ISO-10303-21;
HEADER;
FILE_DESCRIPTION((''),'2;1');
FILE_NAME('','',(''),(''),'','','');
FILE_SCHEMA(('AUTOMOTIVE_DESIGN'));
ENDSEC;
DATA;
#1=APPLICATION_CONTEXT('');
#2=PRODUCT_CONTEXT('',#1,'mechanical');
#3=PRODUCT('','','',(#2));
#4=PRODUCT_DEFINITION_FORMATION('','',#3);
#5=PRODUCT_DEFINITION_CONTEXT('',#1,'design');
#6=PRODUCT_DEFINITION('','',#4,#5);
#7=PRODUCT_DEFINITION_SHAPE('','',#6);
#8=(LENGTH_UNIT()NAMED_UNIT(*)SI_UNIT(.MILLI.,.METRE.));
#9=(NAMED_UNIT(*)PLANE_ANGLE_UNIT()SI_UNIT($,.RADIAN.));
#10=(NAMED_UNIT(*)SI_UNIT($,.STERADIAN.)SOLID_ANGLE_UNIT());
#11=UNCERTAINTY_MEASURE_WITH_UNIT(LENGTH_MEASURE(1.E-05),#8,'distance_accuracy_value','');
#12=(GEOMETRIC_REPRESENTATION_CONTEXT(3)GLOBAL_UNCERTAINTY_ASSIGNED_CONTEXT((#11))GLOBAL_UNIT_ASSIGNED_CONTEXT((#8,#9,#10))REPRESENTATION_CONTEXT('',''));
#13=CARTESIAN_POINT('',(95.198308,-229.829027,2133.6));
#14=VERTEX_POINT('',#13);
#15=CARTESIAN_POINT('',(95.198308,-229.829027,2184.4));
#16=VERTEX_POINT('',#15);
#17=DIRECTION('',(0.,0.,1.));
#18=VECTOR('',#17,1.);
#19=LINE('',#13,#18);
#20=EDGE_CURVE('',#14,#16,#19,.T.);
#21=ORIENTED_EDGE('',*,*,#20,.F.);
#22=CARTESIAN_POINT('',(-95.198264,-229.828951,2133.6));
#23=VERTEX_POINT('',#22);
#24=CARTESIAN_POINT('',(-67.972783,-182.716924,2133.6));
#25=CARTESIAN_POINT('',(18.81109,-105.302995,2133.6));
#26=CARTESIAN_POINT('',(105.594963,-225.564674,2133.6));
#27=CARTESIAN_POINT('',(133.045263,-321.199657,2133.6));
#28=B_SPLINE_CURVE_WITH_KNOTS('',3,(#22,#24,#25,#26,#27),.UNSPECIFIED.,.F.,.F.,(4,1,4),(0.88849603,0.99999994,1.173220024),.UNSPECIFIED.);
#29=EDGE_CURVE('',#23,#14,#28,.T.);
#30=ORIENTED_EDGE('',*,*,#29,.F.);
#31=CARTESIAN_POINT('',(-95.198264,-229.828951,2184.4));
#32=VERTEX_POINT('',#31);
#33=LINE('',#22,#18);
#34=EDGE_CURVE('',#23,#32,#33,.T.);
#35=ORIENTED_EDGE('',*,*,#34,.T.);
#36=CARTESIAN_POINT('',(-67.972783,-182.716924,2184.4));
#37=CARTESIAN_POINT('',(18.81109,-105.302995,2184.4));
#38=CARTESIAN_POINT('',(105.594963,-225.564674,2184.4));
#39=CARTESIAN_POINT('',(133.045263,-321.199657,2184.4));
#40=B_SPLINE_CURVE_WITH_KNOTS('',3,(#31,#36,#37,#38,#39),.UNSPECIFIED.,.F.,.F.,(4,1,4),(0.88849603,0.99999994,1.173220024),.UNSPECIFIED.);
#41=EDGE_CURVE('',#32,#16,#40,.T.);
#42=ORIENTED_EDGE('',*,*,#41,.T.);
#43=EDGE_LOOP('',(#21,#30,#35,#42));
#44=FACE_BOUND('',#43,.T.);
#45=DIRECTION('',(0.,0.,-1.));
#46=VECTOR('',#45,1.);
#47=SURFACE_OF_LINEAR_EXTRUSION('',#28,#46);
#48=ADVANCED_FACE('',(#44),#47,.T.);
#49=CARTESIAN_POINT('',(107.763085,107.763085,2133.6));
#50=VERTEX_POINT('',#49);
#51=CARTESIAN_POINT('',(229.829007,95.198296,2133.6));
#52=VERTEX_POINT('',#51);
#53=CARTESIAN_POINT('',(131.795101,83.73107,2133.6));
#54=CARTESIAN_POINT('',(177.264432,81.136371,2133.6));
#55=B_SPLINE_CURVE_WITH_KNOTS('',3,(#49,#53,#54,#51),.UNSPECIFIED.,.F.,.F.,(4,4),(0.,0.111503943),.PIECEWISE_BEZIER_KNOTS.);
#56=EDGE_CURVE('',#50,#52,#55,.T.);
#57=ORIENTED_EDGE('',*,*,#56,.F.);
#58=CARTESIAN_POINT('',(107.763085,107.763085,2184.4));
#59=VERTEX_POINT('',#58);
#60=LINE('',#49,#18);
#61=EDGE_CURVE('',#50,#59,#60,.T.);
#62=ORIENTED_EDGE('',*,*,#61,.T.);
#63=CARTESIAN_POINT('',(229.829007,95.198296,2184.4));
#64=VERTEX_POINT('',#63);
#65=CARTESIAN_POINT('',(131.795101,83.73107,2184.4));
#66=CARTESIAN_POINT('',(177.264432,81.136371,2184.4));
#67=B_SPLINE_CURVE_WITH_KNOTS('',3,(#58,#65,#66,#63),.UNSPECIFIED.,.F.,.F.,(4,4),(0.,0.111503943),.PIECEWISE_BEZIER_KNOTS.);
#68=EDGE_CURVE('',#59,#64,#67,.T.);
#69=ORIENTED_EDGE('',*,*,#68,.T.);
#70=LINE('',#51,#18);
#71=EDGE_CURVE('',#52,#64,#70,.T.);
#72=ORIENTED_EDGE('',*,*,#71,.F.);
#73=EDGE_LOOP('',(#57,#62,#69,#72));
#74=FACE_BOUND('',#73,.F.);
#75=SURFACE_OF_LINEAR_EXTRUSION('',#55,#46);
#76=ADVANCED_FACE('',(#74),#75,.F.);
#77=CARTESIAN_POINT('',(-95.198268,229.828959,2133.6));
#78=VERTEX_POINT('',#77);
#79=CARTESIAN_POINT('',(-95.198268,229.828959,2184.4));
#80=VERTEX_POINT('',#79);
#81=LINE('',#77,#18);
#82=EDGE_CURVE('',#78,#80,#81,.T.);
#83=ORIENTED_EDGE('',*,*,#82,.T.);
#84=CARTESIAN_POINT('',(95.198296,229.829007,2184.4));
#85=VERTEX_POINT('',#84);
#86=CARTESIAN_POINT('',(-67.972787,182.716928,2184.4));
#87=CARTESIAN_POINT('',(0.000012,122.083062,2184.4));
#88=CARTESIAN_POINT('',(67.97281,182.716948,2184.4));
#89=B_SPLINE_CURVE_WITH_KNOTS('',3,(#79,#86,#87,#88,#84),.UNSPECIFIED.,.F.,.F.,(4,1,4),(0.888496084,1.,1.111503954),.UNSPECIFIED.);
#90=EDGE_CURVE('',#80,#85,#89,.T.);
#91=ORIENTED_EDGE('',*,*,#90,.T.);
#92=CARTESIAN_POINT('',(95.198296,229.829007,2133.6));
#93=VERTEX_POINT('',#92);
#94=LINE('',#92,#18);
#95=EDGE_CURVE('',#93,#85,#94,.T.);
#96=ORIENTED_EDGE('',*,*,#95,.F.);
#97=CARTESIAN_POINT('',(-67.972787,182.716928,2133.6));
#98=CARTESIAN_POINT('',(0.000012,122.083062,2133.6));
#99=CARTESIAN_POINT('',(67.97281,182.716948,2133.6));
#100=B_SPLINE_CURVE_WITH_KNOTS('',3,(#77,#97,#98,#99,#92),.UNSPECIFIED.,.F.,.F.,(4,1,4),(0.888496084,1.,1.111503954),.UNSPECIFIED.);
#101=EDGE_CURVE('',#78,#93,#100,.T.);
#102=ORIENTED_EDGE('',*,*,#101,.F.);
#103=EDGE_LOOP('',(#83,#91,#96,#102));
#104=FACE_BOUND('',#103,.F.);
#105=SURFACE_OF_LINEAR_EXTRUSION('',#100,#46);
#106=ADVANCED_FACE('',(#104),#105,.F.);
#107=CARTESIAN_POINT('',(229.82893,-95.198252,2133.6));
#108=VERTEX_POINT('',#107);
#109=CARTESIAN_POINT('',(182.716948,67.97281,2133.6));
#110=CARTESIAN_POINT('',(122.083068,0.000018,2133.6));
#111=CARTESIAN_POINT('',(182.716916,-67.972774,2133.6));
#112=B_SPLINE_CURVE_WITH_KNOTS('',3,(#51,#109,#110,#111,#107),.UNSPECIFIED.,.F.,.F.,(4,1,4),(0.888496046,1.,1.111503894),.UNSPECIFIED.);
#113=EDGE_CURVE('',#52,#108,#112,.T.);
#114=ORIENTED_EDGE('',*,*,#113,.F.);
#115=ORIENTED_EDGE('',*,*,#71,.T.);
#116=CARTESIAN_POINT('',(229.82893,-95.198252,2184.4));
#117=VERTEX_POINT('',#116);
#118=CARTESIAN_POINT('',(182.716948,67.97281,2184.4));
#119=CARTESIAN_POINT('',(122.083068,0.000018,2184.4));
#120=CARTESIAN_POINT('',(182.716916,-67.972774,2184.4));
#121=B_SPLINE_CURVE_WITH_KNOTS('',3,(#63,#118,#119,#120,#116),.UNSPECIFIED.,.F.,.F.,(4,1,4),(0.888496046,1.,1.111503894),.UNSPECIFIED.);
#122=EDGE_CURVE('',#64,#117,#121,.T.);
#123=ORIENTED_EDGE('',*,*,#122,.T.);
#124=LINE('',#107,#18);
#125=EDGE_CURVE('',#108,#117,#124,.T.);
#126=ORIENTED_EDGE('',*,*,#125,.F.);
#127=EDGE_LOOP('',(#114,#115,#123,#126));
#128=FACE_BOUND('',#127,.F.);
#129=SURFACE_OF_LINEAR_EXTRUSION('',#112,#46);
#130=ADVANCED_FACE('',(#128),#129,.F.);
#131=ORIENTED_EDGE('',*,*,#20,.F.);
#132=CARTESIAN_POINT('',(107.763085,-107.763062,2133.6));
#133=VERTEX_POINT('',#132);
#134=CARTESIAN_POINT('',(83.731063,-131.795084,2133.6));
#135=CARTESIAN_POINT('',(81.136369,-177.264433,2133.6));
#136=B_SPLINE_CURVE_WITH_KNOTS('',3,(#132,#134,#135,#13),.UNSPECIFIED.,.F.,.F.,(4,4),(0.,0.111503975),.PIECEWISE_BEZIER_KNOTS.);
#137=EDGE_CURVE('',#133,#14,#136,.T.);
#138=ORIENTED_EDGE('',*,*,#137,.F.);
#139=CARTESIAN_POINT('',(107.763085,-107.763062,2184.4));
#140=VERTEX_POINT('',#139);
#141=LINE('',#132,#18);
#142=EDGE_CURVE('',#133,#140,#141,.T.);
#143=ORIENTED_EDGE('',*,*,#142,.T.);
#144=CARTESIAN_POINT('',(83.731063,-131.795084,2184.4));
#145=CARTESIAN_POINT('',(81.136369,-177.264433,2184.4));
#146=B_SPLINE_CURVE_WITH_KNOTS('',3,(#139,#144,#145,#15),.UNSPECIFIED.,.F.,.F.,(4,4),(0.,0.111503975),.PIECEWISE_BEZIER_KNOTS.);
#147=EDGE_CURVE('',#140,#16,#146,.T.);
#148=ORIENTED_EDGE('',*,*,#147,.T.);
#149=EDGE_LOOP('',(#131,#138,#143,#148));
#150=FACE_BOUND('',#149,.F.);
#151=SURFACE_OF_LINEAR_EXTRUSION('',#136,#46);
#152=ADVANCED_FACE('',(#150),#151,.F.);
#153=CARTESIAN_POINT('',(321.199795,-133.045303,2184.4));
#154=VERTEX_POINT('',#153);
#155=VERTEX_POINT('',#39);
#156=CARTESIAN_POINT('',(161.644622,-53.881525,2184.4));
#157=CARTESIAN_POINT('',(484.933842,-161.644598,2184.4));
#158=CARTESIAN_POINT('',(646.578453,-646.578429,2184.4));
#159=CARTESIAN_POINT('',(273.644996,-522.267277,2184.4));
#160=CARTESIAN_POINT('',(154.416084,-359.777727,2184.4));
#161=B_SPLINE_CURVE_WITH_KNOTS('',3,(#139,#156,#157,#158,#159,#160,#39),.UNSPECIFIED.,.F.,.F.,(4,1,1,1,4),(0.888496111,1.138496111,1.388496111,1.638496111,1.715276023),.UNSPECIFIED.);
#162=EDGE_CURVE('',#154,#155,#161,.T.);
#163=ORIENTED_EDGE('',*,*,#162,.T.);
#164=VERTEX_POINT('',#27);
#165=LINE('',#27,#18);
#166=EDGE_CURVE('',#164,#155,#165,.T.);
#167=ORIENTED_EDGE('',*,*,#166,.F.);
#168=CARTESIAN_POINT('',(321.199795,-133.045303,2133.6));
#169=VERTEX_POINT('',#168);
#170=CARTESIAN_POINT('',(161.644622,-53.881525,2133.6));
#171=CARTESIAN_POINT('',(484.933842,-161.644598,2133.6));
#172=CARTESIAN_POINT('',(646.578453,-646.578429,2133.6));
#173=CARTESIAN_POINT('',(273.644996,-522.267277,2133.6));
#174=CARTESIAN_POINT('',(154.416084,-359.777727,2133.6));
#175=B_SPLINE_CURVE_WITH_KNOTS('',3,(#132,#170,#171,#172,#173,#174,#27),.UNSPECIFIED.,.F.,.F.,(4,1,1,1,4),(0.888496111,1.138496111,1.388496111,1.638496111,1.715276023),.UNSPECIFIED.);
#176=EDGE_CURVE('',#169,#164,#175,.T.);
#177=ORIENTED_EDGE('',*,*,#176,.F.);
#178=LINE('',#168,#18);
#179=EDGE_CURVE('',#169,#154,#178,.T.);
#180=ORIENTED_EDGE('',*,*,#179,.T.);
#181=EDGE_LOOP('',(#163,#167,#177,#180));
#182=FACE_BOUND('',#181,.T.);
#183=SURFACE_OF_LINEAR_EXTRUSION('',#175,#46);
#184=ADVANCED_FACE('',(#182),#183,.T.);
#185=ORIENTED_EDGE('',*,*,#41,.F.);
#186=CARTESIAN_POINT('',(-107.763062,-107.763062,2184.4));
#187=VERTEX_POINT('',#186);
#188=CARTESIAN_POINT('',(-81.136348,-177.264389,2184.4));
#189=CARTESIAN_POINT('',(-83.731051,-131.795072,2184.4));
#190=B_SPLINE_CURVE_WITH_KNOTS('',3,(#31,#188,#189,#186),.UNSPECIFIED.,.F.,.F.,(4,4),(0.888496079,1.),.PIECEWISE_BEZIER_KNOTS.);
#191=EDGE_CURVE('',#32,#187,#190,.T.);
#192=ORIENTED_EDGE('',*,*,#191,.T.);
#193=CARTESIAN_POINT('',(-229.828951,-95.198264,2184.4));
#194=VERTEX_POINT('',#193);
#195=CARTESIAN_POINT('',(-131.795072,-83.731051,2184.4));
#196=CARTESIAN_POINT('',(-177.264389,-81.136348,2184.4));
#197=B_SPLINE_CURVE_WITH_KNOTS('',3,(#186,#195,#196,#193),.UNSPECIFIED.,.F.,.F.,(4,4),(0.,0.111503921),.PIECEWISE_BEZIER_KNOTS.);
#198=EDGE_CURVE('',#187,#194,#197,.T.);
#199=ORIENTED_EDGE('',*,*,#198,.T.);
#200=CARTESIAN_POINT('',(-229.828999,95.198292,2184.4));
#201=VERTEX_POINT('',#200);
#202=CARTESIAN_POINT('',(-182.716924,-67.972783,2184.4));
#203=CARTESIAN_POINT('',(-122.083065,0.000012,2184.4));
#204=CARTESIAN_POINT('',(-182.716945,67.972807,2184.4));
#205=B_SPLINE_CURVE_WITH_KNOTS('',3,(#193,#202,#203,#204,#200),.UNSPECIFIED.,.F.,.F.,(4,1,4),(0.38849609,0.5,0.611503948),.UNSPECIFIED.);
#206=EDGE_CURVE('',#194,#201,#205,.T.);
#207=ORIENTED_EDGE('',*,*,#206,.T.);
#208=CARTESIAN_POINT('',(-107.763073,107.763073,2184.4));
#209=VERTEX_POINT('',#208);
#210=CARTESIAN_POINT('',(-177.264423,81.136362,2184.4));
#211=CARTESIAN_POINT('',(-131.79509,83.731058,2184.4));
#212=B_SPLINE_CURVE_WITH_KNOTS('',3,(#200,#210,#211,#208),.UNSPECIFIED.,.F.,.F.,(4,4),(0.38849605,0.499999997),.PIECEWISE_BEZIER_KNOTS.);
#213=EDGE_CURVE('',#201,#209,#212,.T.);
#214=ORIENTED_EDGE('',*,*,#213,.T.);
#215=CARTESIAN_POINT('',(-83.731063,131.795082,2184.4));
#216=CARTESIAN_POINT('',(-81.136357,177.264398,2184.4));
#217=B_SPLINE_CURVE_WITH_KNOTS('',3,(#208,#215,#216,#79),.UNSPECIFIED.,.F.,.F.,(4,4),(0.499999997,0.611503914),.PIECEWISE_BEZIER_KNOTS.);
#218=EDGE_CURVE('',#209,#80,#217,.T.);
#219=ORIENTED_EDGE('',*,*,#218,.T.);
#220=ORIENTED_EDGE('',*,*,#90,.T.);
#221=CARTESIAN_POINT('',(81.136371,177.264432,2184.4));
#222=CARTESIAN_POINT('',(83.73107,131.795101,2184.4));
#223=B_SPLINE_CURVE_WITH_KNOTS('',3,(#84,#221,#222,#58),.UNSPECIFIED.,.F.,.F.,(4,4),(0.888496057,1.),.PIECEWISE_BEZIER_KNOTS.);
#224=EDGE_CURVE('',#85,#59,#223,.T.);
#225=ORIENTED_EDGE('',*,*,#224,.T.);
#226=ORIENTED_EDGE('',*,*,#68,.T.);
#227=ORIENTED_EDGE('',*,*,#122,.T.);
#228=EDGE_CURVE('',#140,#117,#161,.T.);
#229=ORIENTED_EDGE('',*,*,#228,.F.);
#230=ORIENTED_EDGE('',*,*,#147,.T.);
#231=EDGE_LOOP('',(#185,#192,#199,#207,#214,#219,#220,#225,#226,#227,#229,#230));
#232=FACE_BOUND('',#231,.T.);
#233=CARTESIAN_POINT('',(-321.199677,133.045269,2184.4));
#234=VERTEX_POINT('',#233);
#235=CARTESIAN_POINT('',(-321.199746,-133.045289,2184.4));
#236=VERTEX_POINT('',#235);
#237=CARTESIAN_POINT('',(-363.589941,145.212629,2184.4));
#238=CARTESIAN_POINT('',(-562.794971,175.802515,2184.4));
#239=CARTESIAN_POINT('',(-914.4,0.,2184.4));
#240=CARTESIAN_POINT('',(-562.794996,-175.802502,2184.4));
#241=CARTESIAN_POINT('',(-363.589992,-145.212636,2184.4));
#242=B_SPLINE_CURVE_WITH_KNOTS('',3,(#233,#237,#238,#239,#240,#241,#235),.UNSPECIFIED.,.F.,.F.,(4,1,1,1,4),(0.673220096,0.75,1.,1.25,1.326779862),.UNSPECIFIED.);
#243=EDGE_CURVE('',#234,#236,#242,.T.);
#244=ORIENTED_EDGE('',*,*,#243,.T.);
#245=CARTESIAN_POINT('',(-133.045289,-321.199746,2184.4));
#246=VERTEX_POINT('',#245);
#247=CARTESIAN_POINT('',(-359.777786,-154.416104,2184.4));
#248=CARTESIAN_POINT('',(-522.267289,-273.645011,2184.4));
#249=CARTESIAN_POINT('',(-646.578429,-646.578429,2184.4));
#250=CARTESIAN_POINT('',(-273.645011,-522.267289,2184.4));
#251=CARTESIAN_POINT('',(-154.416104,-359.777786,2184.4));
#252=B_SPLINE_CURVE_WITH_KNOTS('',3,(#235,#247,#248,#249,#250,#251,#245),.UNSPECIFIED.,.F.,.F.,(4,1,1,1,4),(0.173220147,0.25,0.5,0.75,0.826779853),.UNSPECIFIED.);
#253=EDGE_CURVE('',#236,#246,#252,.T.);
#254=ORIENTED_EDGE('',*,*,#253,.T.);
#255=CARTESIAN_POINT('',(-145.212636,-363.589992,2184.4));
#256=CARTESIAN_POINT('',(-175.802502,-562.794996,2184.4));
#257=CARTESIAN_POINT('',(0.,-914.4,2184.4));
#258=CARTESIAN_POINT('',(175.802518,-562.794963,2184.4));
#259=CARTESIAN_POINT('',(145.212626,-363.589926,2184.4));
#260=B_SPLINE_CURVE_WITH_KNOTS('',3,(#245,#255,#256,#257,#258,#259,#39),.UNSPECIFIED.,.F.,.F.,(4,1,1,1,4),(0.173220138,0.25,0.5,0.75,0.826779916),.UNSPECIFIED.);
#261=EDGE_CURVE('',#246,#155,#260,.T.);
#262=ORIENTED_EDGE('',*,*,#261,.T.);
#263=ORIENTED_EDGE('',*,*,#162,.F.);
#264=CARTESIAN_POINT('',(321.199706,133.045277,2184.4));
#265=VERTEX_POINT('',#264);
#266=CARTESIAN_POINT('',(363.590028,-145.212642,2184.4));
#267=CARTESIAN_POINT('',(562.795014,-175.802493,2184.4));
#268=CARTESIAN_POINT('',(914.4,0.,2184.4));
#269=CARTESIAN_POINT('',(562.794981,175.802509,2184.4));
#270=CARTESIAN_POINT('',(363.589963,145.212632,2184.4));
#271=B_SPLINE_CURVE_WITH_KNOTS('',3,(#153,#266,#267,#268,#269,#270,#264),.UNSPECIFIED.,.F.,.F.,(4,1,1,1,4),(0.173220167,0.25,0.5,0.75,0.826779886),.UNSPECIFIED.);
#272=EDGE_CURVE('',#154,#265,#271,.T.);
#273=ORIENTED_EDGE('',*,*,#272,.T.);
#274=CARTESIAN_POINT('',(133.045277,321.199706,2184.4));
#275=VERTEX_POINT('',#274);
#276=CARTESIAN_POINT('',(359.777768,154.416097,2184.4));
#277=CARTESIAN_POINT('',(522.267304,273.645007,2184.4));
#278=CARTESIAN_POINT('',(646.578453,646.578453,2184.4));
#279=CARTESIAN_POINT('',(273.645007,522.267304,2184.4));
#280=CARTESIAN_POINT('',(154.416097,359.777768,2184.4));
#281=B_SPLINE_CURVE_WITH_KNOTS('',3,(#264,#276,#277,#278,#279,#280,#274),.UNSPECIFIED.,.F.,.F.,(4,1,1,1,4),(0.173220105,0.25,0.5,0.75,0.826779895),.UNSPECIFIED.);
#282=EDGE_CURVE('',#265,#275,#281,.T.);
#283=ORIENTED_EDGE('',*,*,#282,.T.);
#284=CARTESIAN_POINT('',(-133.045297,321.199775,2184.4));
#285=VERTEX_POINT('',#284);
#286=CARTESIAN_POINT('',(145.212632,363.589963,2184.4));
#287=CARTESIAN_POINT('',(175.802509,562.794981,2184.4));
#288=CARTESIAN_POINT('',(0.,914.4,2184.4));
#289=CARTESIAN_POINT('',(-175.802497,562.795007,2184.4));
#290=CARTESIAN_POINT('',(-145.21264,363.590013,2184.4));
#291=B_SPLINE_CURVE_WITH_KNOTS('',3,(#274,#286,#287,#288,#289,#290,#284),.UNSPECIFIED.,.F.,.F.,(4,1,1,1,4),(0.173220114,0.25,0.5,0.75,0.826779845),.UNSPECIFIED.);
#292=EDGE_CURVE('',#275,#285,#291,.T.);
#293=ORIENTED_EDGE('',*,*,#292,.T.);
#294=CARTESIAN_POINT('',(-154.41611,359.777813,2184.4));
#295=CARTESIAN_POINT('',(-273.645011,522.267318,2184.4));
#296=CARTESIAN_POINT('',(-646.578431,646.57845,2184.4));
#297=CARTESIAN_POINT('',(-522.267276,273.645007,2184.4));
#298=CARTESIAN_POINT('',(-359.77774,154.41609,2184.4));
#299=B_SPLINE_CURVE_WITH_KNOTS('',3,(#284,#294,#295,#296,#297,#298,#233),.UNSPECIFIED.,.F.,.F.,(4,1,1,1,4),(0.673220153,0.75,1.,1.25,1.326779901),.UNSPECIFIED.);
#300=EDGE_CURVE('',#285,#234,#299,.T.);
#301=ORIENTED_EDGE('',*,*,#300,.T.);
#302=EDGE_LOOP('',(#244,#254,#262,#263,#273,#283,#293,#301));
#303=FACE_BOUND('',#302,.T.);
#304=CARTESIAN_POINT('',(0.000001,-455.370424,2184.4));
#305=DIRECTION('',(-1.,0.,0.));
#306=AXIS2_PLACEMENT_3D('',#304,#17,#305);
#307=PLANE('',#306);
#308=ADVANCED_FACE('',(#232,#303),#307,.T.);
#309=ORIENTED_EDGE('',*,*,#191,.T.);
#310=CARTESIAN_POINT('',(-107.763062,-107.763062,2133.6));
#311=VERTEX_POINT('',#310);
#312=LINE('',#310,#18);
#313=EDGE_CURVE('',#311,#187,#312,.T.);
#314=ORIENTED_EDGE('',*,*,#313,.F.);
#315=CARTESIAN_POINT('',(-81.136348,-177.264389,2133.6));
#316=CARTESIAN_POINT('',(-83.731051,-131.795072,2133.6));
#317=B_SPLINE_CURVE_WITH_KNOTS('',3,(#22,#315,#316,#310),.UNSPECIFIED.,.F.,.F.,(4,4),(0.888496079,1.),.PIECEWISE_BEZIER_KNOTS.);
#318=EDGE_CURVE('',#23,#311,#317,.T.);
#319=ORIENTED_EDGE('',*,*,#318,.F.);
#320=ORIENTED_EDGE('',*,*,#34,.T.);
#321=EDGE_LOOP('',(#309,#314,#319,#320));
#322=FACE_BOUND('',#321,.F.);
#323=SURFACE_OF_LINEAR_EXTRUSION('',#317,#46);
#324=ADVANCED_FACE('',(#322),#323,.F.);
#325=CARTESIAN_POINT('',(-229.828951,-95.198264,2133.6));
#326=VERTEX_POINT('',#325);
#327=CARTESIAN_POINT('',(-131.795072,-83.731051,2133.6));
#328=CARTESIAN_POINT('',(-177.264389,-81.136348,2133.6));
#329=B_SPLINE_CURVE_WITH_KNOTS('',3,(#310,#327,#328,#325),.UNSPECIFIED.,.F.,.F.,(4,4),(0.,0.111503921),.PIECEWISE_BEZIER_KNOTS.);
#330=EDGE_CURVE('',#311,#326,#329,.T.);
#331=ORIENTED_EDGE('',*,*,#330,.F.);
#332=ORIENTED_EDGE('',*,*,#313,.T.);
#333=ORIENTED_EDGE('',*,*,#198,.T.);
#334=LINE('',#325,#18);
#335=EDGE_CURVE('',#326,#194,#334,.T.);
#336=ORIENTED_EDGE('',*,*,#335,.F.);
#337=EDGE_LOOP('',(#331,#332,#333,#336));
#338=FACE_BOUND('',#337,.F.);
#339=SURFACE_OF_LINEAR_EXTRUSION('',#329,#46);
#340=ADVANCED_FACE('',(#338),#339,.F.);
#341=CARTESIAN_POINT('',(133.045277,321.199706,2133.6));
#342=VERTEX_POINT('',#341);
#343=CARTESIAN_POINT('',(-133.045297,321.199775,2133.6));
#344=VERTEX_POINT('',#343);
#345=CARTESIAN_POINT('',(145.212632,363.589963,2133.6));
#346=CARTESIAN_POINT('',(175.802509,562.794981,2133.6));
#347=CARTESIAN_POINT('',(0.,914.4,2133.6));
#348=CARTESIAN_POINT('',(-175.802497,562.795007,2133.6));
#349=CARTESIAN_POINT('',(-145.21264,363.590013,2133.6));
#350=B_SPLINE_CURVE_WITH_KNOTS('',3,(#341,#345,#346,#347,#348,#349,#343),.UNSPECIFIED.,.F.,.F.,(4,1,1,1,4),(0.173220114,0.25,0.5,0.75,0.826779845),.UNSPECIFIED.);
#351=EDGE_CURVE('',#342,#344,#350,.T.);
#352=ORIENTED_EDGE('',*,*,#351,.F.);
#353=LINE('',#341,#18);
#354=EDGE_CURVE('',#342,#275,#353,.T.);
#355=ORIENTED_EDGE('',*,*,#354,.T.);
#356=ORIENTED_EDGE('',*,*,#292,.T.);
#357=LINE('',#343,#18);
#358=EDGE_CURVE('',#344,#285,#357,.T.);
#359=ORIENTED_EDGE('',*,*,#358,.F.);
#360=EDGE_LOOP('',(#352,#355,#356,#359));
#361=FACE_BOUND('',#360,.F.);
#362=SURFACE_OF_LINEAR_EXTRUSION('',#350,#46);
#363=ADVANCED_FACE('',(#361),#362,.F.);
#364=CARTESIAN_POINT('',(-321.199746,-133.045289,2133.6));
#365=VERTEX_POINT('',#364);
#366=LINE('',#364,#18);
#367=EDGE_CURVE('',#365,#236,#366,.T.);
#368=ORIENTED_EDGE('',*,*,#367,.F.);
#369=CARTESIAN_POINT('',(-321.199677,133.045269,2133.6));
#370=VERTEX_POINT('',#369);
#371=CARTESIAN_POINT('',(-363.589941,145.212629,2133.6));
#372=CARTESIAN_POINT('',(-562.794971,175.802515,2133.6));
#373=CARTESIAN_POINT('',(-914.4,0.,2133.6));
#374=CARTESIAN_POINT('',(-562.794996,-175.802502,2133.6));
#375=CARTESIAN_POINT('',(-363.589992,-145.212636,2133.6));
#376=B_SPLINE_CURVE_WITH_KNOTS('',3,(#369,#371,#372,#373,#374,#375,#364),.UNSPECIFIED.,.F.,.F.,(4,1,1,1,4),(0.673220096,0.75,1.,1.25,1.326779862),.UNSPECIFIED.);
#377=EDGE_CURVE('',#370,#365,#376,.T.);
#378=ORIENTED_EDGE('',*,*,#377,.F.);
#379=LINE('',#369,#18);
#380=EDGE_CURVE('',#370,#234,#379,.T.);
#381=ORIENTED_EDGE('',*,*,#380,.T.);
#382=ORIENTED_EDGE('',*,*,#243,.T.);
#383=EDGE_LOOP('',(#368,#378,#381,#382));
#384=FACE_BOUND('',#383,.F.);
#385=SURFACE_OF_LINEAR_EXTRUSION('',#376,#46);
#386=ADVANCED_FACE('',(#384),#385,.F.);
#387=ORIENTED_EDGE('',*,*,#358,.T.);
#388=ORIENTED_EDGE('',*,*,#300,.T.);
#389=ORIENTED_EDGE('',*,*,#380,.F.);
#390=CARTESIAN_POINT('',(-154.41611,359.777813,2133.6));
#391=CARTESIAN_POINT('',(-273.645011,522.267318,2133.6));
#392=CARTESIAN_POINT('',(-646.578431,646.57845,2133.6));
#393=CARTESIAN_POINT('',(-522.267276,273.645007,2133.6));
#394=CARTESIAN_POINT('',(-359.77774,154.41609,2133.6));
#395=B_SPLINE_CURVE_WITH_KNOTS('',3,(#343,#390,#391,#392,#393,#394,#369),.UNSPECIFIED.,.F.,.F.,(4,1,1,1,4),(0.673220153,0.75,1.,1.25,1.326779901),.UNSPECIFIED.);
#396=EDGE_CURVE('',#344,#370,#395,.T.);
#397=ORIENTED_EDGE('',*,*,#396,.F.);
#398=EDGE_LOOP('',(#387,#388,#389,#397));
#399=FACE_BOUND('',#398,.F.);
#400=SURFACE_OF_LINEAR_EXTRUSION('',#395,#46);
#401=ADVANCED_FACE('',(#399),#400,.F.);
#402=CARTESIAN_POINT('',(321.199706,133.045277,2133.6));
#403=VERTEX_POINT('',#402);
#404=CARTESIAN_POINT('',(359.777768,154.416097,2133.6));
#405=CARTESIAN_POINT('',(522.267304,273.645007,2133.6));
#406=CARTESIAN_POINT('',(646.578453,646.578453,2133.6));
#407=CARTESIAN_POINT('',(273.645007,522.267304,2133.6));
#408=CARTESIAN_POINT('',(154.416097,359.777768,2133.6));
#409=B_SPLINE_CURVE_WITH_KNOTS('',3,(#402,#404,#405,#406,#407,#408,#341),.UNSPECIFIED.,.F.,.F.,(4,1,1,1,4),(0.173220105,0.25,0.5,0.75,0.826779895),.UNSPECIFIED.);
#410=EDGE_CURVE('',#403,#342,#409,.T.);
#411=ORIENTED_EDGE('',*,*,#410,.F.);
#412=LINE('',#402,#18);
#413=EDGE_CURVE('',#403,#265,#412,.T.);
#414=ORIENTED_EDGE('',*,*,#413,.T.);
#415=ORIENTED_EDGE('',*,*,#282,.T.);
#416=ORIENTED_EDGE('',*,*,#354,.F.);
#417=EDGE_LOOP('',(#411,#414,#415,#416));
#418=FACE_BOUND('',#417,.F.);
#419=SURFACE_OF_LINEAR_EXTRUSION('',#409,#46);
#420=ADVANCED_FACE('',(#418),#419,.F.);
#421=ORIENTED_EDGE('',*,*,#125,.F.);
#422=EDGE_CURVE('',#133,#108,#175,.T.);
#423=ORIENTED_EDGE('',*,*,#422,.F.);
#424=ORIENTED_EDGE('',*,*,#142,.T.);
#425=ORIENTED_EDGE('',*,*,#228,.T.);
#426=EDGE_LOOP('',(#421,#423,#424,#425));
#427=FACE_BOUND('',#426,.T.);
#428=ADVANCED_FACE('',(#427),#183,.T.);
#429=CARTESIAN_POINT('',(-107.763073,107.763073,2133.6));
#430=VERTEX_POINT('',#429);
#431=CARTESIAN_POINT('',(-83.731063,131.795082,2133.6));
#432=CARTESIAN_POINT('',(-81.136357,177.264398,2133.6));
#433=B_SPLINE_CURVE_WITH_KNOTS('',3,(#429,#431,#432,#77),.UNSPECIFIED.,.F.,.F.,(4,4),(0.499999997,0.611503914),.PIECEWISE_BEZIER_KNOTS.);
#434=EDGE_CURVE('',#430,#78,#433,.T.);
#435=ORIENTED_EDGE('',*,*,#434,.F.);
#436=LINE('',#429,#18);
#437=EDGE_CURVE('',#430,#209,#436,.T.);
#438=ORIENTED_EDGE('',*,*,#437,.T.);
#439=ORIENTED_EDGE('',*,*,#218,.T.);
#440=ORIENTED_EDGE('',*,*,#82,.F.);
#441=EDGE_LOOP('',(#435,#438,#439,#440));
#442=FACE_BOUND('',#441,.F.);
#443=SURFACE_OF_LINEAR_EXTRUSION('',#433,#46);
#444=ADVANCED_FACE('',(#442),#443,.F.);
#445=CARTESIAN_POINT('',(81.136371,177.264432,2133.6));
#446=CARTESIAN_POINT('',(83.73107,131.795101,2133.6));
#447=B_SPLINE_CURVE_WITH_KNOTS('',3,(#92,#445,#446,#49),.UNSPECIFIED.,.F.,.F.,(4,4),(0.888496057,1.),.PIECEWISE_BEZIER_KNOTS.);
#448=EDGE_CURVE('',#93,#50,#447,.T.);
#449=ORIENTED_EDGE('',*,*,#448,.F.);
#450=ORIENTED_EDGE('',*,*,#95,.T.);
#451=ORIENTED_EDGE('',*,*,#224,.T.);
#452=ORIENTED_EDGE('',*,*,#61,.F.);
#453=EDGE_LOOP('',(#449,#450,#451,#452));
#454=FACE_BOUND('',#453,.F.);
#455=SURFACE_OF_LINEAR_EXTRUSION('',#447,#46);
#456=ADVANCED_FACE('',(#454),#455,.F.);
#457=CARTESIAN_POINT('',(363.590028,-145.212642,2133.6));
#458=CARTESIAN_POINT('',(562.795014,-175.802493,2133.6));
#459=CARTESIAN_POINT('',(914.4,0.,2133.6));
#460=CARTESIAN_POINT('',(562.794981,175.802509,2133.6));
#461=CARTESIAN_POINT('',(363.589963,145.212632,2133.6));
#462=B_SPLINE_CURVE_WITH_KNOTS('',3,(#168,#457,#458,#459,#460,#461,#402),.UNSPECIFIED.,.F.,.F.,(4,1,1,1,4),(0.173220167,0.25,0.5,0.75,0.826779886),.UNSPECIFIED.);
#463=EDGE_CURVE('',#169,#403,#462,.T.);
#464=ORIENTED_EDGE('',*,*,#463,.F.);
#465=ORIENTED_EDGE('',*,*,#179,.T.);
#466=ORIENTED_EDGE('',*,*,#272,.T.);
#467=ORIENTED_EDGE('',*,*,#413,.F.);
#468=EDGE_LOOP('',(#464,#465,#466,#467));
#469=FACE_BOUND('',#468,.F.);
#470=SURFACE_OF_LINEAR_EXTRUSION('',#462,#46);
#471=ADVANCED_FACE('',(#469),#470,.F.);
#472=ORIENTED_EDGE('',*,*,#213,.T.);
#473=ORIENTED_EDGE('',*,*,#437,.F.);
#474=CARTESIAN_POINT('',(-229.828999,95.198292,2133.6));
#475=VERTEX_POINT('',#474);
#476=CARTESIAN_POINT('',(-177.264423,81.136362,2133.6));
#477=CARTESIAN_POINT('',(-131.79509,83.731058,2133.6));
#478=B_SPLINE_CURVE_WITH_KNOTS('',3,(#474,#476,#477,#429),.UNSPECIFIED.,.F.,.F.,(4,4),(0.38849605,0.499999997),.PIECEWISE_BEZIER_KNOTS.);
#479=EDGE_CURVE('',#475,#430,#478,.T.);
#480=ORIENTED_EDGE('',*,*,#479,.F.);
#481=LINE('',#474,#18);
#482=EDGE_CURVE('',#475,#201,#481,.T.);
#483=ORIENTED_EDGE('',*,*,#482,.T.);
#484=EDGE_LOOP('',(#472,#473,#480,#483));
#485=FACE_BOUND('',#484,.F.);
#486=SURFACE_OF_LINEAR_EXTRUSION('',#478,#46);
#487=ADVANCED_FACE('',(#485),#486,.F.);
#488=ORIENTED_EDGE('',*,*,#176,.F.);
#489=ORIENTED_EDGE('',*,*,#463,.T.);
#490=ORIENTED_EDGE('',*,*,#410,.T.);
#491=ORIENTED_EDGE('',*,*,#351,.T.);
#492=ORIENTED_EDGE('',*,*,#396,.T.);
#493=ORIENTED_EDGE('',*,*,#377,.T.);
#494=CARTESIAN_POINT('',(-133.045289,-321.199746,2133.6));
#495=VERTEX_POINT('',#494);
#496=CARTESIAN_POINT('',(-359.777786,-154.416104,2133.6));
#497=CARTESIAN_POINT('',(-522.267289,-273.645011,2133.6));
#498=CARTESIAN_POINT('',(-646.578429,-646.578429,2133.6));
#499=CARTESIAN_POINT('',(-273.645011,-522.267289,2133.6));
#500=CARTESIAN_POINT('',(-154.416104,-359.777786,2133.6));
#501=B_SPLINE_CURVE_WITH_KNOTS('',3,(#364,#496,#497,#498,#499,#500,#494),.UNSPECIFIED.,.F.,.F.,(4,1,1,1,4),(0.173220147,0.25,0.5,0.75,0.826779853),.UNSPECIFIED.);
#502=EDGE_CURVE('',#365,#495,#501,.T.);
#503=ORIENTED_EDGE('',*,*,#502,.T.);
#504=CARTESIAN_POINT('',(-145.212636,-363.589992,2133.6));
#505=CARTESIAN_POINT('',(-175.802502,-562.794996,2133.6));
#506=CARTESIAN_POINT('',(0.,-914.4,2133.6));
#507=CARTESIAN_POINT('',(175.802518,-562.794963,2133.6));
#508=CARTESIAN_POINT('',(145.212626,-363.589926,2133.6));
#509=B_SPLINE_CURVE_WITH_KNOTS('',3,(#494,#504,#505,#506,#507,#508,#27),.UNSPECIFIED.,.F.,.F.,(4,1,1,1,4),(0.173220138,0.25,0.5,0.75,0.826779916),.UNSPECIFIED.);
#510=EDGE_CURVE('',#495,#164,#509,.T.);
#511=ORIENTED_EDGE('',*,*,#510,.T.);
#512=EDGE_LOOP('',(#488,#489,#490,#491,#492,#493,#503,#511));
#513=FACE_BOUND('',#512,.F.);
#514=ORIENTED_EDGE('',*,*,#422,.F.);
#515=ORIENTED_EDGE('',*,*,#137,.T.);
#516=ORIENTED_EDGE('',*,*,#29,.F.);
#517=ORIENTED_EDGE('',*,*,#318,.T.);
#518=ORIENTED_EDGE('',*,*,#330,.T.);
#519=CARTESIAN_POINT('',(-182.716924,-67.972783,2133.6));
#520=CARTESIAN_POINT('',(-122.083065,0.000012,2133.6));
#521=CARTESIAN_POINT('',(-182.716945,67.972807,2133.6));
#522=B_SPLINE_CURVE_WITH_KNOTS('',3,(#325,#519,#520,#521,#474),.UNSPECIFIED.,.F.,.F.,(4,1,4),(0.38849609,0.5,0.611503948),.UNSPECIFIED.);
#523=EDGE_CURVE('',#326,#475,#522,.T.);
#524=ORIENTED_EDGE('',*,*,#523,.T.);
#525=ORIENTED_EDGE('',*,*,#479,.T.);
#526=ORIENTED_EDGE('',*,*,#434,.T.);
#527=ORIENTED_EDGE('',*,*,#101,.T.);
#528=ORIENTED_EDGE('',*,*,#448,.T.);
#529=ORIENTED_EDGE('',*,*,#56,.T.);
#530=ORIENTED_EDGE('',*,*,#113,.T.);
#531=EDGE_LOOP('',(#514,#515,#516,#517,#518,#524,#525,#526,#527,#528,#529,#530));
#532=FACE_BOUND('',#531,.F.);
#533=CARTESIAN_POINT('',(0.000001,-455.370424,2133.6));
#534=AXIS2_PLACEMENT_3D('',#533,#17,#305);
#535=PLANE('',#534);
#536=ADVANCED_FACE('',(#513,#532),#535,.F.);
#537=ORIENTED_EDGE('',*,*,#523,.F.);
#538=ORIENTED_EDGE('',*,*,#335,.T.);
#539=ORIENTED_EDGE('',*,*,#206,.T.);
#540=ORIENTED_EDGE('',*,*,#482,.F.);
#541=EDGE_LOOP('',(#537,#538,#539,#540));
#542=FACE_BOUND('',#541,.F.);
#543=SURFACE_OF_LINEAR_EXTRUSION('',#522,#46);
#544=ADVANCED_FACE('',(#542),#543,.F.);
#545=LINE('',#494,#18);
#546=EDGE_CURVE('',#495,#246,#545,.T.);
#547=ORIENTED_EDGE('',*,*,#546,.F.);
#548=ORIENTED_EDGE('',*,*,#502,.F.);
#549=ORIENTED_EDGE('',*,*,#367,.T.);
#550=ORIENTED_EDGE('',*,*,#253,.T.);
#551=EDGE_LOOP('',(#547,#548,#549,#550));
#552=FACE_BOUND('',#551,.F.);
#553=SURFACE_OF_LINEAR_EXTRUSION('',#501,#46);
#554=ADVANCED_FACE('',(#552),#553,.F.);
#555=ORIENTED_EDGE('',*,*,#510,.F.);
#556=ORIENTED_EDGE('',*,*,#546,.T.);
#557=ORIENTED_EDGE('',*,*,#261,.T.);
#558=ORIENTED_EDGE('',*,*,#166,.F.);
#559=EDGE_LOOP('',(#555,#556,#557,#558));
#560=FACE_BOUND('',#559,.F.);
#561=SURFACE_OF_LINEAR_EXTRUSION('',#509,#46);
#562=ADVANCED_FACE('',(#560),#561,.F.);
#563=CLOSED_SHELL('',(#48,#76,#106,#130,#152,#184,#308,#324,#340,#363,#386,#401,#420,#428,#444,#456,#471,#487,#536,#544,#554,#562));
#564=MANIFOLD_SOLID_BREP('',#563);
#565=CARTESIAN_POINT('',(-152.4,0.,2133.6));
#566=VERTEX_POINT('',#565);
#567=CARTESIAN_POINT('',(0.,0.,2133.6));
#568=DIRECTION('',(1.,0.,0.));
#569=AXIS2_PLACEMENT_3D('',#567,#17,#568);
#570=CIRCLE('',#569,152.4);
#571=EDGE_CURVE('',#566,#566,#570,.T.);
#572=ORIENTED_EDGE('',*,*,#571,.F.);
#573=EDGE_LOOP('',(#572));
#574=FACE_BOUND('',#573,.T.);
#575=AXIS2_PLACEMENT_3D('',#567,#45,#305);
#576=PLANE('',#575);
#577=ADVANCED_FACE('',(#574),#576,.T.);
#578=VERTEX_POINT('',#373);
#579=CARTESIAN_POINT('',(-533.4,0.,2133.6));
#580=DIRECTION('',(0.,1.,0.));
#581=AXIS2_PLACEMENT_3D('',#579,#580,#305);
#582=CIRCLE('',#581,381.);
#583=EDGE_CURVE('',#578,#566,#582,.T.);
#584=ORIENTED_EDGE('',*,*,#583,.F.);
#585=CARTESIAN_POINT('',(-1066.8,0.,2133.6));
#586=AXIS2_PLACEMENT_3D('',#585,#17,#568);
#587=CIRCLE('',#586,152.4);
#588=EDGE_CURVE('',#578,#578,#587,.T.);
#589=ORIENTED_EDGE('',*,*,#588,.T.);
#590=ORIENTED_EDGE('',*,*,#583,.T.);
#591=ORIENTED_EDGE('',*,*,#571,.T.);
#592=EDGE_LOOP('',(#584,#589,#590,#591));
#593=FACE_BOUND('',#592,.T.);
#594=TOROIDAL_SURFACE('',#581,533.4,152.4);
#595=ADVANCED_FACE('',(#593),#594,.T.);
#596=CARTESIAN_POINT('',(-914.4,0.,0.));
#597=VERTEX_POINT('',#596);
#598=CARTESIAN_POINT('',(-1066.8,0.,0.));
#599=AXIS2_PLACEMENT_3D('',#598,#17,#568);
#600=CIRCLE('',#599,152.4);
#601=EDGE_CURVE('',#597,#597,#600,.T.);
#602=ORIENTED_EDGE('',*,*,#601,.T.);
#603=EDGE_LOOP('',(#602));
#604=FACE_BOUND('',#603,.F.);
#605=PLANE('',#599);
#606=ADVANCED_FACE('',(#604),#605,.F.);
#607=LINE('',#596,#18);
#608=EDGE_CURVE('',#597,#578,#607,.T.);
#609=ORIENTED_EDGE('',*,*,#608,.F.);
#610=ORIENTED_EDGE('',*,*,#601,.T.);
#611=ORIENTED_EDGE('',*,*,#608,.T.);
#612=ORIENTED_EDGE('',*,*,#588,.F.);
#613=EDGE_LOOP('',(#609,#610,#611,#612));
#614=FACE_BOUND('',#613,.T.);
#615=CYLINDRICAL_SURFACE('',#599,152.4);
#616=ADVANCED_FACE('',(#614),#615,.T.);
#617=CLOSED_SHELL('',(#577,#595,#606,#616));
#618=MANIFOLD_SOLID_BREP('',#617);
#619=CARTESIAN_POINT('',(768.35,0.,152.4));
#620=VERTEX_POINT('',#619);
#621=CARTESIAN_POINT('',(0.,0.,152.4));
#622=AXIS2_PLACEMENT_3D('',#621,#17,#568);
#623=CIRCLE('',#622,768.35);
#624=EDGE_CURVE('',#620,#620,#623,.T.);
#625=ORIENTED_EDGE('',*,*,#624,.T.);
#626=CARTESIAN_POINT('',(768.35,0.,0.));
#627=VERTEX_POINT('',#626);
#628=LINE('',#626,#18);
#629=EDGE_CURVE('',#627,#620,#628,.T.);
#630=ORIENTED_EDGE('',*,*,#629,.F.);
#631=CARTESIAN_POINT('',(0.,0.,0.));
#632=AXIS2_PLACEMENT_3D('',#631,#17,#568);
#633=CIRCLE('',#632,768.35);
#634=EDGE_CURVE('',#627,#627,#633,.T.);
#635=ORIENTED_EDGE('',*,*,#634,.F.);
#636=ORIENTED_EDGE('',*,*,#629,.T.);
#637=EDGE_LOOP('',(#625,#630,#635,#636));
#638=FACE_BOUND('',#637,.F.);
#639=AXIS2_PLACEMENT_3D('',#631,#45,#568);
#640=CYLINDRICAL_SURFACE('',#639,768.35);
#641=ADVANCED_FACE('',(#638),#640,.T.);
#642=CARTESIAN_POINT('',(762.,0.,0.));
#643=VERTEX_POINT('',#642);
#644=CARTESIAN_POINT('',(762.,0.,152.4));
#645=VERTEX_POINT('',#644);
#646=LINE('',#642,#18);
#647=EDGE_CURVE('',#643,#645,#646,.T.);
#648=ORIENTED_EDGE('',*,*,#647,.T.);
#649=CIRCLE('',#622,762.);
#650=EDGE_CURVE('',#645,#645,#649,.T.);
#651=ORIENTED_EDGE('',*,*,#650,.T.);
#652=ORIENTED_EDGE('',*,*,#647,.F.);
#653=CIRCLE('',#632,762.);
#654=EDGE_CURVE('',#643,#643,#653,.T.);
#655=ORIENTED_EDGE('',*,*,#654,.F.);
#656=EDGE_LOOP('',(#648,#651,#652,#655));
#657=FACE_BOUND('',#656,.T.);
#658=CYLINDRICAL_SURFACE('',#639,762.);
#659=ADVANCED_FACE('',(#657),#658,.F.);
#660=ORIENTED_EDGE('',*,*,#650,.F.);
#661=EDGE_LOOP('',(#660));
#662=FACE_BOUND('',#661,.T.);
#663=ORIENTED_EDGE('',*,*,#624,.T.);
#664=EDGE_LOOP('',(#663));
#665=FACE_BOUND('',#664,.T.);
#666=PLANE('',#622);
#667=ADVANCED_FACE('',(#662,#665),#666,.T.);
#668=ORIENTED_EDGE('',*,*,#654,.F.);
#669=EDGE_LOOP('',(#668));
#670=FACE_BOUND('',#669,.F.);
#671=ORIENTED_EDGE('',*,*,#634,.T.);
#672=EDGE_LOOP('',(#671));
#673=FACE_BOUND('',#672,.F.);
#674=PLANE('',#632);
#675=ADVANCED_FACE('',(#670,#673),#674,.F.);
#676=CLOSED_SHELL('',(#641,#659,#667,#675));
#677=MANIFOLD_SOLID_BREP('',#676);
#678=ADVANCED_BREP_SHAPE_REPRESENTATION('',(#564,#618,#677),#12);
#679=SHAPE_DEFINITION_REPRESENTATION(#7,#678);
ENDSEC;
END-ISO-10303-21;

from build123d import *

# Parameters (mm, degrees)
F0_R     = 768.35
F0_R_2   = 762
F2_DEPTH = 152.4
F3_R     = 152.4
F6_DEPTH = 50.8


with BuildPart() as f2:
    # F0 (on Top) → F2 (new body)
    with BuildSketch(Plane.XY):
        Circle(F0_R)
        Circle(F0_R_2, mode=Mode.SUBTRACT)
    extrude(amount=F2_DEPTH)


with BuildPart() as f4:
    # F4: sweep along a path in F1
    with BuildLine(Plane.XZ) as f4_path:
        Line((-1066.8, 0), (-1066.8, 2133.6))
        ThreePointArc((-1066.8, 2133.6), (-533.4, 2667), (0, 2133.6))
    # F3 (on Top) → F4 (sweep)
    with BuildSketch(Plane.XY):
        with Locations((-1066.8, 0)):
            Circle(F3_R)
    sweep(path=f4_path.line)


with BuildPart() as f6:
    # F5 (on face) → F6 (new body)
    with BuildSketch(Plane(origin=(0, 0, 2133.6), x_dir=(1, 0, 0), z_dir=(0, 0, -1))):
        with BuildLine():
            add(Edge.make_bspline(
                [(0, 152.4), (-33.9863916978, 152.4), (-67.9727833955, 182.7169244261), (-95.1982638819, 229.8289508555)],
                knots=[0, 0, 0, 0, 0.1115039098, 0.1115039098, 0.1115039098, 0.1115039098], degree=3))
            add(Edge.make_bspline(
                [(95.1983081161, 229.8290274001), (67.9728202081, 182.7169572641), (33.9864101041, 152.4), (0, 152.4)],
                knots=[0.8884960298, 0.8884960298, 0.8884960298, 0.8884960298, 1, 1, 1, 1], degree=3))
            add(Edge.make_bspline(
                [(95.1983081161, 229.8290274001), (102.9814227805, 258.9229000048), (115.8672800287, 290.1903934408), (133.0452629742, 321.1996570491)],
                knots=[0.1115039746, 0.1115039746, 0.1115039746, 0.1115039746, 0.1732200877, 0.1732200877, 0.1732200877, 0.1732200877], degree=3))
            add(Edge.make_bspline(
                [(-133.0452885204, 321.1997460504), (-145.2126364631, 363.5899918586), (-175.8025020354, 562.7949959293), (0, 914.4), (175.8025184138, 562.7949631725), (145.2126264028, 363.589926345), (133.0452629742, 321.1996570491)],
                knots=[0.1732201377, 0.1732201377, 0.1732201377, 0.1732201377, 0.25, 0.5, 0.75, 0.8267799161, 0.8267799161, 0.8267799161, 0.8267799161], degree=3))
            add(Edge.make_bspline(
                [(-133.0452885204, 321.1997460504), (-115.8672658629, 290.1904260745), (-102.9813838682, 258.9228729972), (-95.1982638819, 229.8289508555)],
                knots=[0.8267798533, 0.8267798533, 0.8267798533, 0.8267798533, 0.8884960795, 0.8884960795, 0.8884960795, 0.8884960795], degree=3))
        make_face()
        with BuildLine():
            add(Edge.make_bspline(
                [(-95.1982638819, 229.8289508555), (-81.1363478478, 177.2643892169), (-83.7310512319, 131.7950719165), (-107.7630615742, 107.7630615742)],
                knots=[0.8884960795, 0.8884960795, 0.8884960795, 0.8884960795, 1, 1, 1, 1], degree=3))
            add(Edge.make_bspline(
                [(-95.1982638819, 229.8289508555), (-110.267277714, 255.9049563195), (-123.2650831907, 287.1261492456), (-133.0452885204, 321.1997460504)],
                knots=[0.1115039098, 0.1115039098, 0.1115039098, 0.1115039098, 0.1732201377, 0.1732201377, 0.1732201377, 0.1732201377], degree=3))
            add(Edge.make_bspline(
                [(-321.1997460503, 133.0452885204), (-359.7777859078, 154.4161035938), (-522.2672894533, 273.6450106831), (-646.5784288384, 646.5784288384), (-273.6450106831, 522.2672894533), (-154.4161035938, 359.7777859079), (-133.0452885204, 321.1997460504)],
                knots=[0.1732201467, 0.1732201467, 0.1732201467, 0.1732201467, 0.25, 0.5, 0.75, 0.8267798533, 0.8267798533, 0.8267798533, 0.8267798533], degree=3))
            add(Edge.make_bspline(
                [(-321.1997460503, 133.0452885204), (-287.1261492455, 123.2650831907), (-255.9049563194, 110.267277714), (-229.8289508555, 95.1982638819)],
                knots=[0.3267798623, 0.3267798623, 0.3267798623, 0.3267798623, 0.3884960902, 0.3884960902, 0.3884960902, 0.3884960902], degree=3))
            add(Edge.make_bspline(
                [(-107.7630615742, 107.7630615742), (-131.7950719165, 83.731051232), (-177.2643892169, 81.1363478478), (-229.8289508555, 95.1982638819)],
                knots=[0, 0, 0, 0, 0.1115039205, 0.1115039205, 0.1115039205, 0.1115039205], degree=3))
        make_face()
        with BuildLine():
            add(Edge.make_bspline(
                [(-95.1982638819, 229.8289508555), (-110.267277714, 255.9049563195), (-123.2650831907, 287.1261492456), (-133.0452885204, 321.1997460504)],
                knots=[0.1115039098, 0.1115039098, 0.1115039098, 0.1115039098, 0.1732201377, 0.1732201377, 0.1732201377, 0.1732201377], degree=3))
            add(Edge.make_bspline(
                [(-133.0452885204, 321.1997460504), (-115.8672658629, 290.1904260745), (-102.9813838682, 258.9228729972), (-95.1982638819, 229.8289508555)],
                knots=[0.8267798533, 0.8267798533, 0.8267798533, 0.8267798533, 0.8884960795, 0.8884960795, 0.8884960795, 0.8884960795], degree=3))
        make_face()
        with BuildLine():
            add(Edge.make_bspline(
                [(95.1983081161, 229.8290274001), (102.9814227805, 258.9229000048), (115.8672800287, 290.1903934408), (133.0452629742, 321.1996570491)],
                knots=[0.1115039746, 0.1115039746, 0.1115039746, 0.1115039746, 0.1732200877, 0.1732200877, 0.1732200877, 0.1732200877], degree=3))
            add(Edge.make_bspline(
                [(133.0452629742, 321.1996570491), (123.2650701267, 287.1261282188), (110.2672900299, 255.9049947143), (95.1983081161, 229.8290274001)],
                knots=[0.8267799161, 0.8267799161, 0.8267799161, 0.8267799161, 0.8884960298, 0.8884960298, 0.8884960298, 0.8884960298], degree=3))
        make_face()
        with BuildLine():
            add(Edge.make_bspline(
                [(133.0452629742, 321.1996570491), (123.2650701267, 287.1261282188), (110.2672900299, 255.9049947143), (95.1983081161, 229.8290274001)],
                knots=[0.8267799161, 0.8267799161, 0.8267799161, 0.8267799161, 0.8884960298, 0.8884960298, 0.8884960298, 0.8884960298], degree=3))
            add(Edge.make_bspline(
                [(107.7630853314, 107.7630615742), (83.731063324, 131.7950835816), (81.1363690861, 177.2644333586), (95.1983081161, 229.8290274001)],
                knots=[0, 0, 0, 0, 0.1115039746, 0.1115039746, 0.1115039746, 0.1115039746], degree=3))
            add(Edge.make_bspline(
                [(229.8289303785, 95.1982520485), (177.2643874652, 81.1363493035), (131.7950889326, 83.7310579731), (107.7630853314, 107.7630615742)],
                knots=[0.8884961108, 0.8884961108, 0.8884961108, 0.8884961108, 1, 1, 1, 1], degree=3))
            add(Edge.make_bspline(
                [(229.8289303785, 95.1982520485), (255.9049525516, 110.2672781775), (287.1261704438, 123.2650931689), (321.1997953538, 133.0453026721)],
                knots=[0.1115038936, 0.1115038936, 0.1115038936, 0.1115038936, 0.1732201674, 0.1732201674, 0.1732201674, 0.1732201674], degree=3))
            add(Edge.make_bspline(
                [(133.0452629742, 321.1996570491), (154.4160842648, 359.7777271884), (273.6449962632, 522.2672767276), (646.5784525956, 646.5784288384), (522.2673168632, 273.6450216411), (359.7778265194, 154.4161159609), (321.1997953538, 133.0453026721)],
                knots=[0.1732200877, 0.1732200877, 0.1732200877, 0.1732200877, 0.25, 0.5, 0.75, 0.8267798363, 0.8267798363, 0.8267798363, 0.8267798363], degree=3))
        make_face()
        with BuildLine():
            add(Edge.make_bspline(
                [(-229.8289508555, 95.1982638819), (-258.9228729971, 102.9813838681), (-290.1904260744, 115.8672658628), (-321.1997460503, 133.0452885204)],
                knots=[0.1115039205, 0.1115039205, 0.1115039205, 0.1115039205, 0.1732201467, 0.1732201467, 0.1732201467, 0.1732201467], degree=3))
            add(Edge.make_bspline(
                [(-762, 0), (-762, 76.2), (-562.7949959292, 175.8025020354), (-363.5899918585, 145.212636463), (-321.1997460503, 133.0452885204)],
                knots=[0, 0, 0, 0, 0.25, 0.3267798623, 0.3267798623, 0.3267798623, 0.3267798623], degree=3))
            add(Edge.make_bspline(
                [(-321.1996771495, -133.0452687437), (-363.5899411409, -145.2126286749), (-562.7949705704, -175.8025147148), (-762, -76.2), (-762, 0)],
                knots=[0.6732200961, 0.6732200961, 0.6732200961, 0.6732200961, 0.75, 1, 1, 1, 1], degree=3))
            add(Edge.make_bspline(
                [(-321.1996771496, -133.0452687437), (-290.1903967598, -115.8672731593), (-258.9228858823, -102.9814080213), (-229.8289992228, -95.1982918328)],
                knots=[0.3267799011, 0.3267799011, 0.3267799011, 0.3267799011, 0.3884960498, 0.3884960498, 0.3884960498, 0.3884960498], degree=3))
            add(Edge.make_bspline(
                [(-229.8289508555, 95.1982638819), (-182.7169244261, 67.9727833955), (-122.083065199, -1.16306e-05), (-182.7169451759, -67.9728066568), (-229.8289992228, -95.1982918328)],
                knots=[0.3884960902, 0.3884960902, 0.3884960902, 0.3884960902, 0.5, 0.6115039479, 0.6115039479, 0.6115039479, 0.6115039479], degree=3))
        make_face()
        with BuildLine():
            add(Edge.make_bspline(
                [(-321.1997460503, 133.0452885204), (-287.1261492455, 123.2650831907), (-255.9049563194, 110.267277714), (-229.8289508555, 95.1982638819)],
                knots=[0.3267798623, 0.3267798623, 0.3267798623, 0.3267798623, 0.3884960902, 0.3884960902, 0.3884960902, 0.3884960902], degree=3))
            add(Edge.make_bspline(
                [(-229.8289508555, 95.1982638819), (-258.9228729971, 102.9813838681), (-290.1904260744, 115.8672658628), (-321.1997460503, 133.0452885204)],
                knots=[0.1115039205, 0.1115039205, 0.1115039205, 0.1115039205, 0.1732201467, 0.1732201467, 0.1732201467, 0.1732201467], degree=3))
        make_face()
        with BuildLine():
            add(Edge.make_bspline(
                [(321.1997953538, 133.0453026721), (290.1904512888, 115.8672642342), (258.9228730512, 102.9813729444), (229.8289303785, 95.1982520485)],
                knots=[0.8267798363, 0.8267798363, 0.8267798363, 0.8267798363, 0.8884961108, 0.8884961108, 0.8884961108, 0.8884961108], degree=3))
            add(Edge.make_bspline(
                [(229.8289303785, 95.1982520485), (255.9049525516, 110.2672781775), (287.1261704438, 123.2650931689), (321.1997953538, 133.0453026721)],
                knots=[0.1115038936, 0.1115038936, 0.1115038936, 0.1115038936, 0.1732201674, 0.1732201674, 0.1732201674, 0.1732201674], degree=3))
        make_face()
        with BuildLine():
            add(Edge.make_bspline(
                [(321.1997953538, 133.0453026721), (363.5900281506, 145.2126420361), (562.7950140753, 175.8024929623), (914.4, 0), (562.7949813186, -175.8025093407), (363.5899626372, -145.2126319758), (321.1997063526, -133.0452771259)],
                knots=[0.1732201674, 0.1732201674, 0.1732201674, 0.1732201674, 0.25, 0.5, 0.75, 0.8267798863, 0.8267798863, 0.8267798863, 0.8267798863], degree=3))
            add(Edge.make_bspline(
                [(321.1997953538, 133.0453026721), (290.1904512888, 115.8672642342), (258.9228730512, 102.9813729444), (229.8289303785, 95.1982520485)],
                knots=[0.8267798363, 0.8267798363, 0.8267798363, 0.8267798363, 0.8884961108, 0.8884961108, 0.8884961108, 0.8884961108], degree=3))
            add(Edge.make_bspline(
                [(152.4, 0), (152.4, 33.9863867738), (182.7169156414, 67.9727735475), (229.8289303785, 95.1982520485)],
                knots=[0, 0, 0, 0, 0.1115038936, 0.1115038936, 0.1115038936, 0.1115038936], degree=3))
            add(Edge.make_bspline(
                [(229.8290069231, -95.1982962827), (182.7169484794, -67.9728103601), (152.4, -33.9864051801), (152.4, 0)],
                knots=[0.888496046, 0.888496046, 0.888496046, 0.888496046, 1, 1, 1, 1], degree=3))
            add(Edge.make_bspline(
                [(229.8290069231, -95.1982962827), (258.9229000588, -102.9814118568), (290.1904186552, -115.8672784), (321.1997063526, -133.0452771259)],
                knots=[0.1115039433, 0.1115039433, 0.1115039433, 0.1115039433, 0.1732201046, 0.1732201046, 0.1732201046, 0.1732201046], degree=3))
        make_face()
        with BuildLine():
            add(Edge.make_bspline(
                [(-229.8289992228, -95.1982918328), (-177.2644229566, -81.1363615976), (-131.7950903554, -83.7310580514), (-107.7630734528, -107.7630734528)],
                knots=[0.3884960498, 0.3884960498, 0.3884960498, 0.3884960498, 0.4999999972, 0.4999999972, 0.4999999972, 0.4999999972], degree=3))
            add(Edge.make_bspline(
                [(-229.8289992228, -95.1982918328), (-255.9049773504, -110.2672836296), (-287.1261282242, -123.2650717156), (-321.1996771495, -133.0452687437)],
                knots=[0.6115039479, 0.6115039479, 0.6115039479, 0.6115039479, 0.6732200961, 0.6732200961, 0.6732200961, 0.6732200961], degree=3))
            add(Edge.make_bspline(
                [(-538.8153553855, -538.8153791428), (-592.6968922109, -484.9338425153), (-522.267276078, -273.6450070554), (-359.7777402386, -154.4160902871), (-321.1996771496, -133.0452687437)],
                knots=[0, 0, 0, 0, 0.25, 0.3267799011, 0.3267799011, 0.3267799011, 0.3267799011], degree=3))
            add(Edge.make_bspline(
                [(-133.0452969026, -321.1997752533), (-154.4161099387, -359.7778134692), (-273.6450108489, -522.2673175128), (-484.9338185601, -592.6969157702), (-538.8153553855, -538.8153791428)],
                knots=[0.6732201525, 0.6732201525, 0.6732201525, 0.6732201525, 0.75, 1, 1, 1, 1], degree=3))
            add(Edge.make_bspline(
                [(-133.0452969026, -321.1997752533), (-123.26509158, -287.1261704384), (-110.2672845778, -255.9049699154), (-95.1982683318, -229.8289585557)],
                knots=[0.8267798447, 0.8267798447, 0.8267798447, 0.8267798447, 0.8884960842, 0.8884960842, 0.8884960842, 0.8884960842], degree=3))
            add(Edge.make_bspline(
                [(-107.7630734528, -107.7630734528), (-83.7310632458, -131.7950821588), (-81.136356792, -177.2643978671), (-95.1982683318, -229.8289585557)],
                knots=[0.4999999972, 0.4999999972, 0.4999999972, 0.4999999972, 0.6115039136, 0.6115039136, 0.6115039136, 0.6115039136], degree=3))
        make_face()
        with BuildLine():
            add(Edge.make_bspline(
                [(-229.8289992228, -95.1982918328), (-255.9049773504, -110.2672836296), (-287.1261282242, -123.2650717156), (-321.1996771495, -133.0452687437)],
                knots=[0.6115039479, 0.6115039479, 0.6115039479, 0.6115039479, 0.6732200961, 0.6732200961, 0.6732200961, 0.6732200961], degree=3))
            add(Edge.make_bspline(
                [(-321.1996771496, -133.0452687437), (-290.1903967598, -115.8672731593), (-258.9228858823, -102.9814080213), (-229.8289992228, -95.1982918328)],
                knots=[0.3267799011, 0.3267799011, 0.3267799011, 0.3267799011, 0.3884960498, 0.3884960498, 0.3884960498, 0.3884960498], degree=3))
        make_face()
        with BuildLine():
            add(Edge.make_bspline(
                [(321.1997063526, -133.0452771259), (359.7777678, -154.416096632), (522.2673041375, -273.6450072213), (646.5784525956, -646.5784525956), (273.6450072213, -522.2673041375), (154.416096632, -359.7777678), (133.0452771259, -321.1997063526)],
                knots=[0.1732201046, 0.1732201046, 0.1732201046, 0.1732201046, 0.25, 0.5, 0.75, 0.8267798954, 0.8267798954, 0.8267798954, 0.8267798954], degree=3))
            add(Edge.make_bspline(
                [(321.1997063526, -133.0452771259), (287.1261494171, -123.2650801049), (255.9049909464, -110.2672904934), (229.8290069231, -95.1982962827)],
                knots=[0.8267798863, 0.8267798863, 0.8267798863, 0.8267798863, 0.888496046, 0.888496046, 0.888496046, 0.888496046], degree=3))
            add(Edge.make_bspline(
                [(107.7630853314, -107.7630853314), (131.7951005977, -83.7310700652), (177.2644316068, -81.1363705418), (229.8290069231, -95.1982962827)],
                knots=[0, 0, 0, 0, 0.1115039433, 0.1115039433, 0.1115039433, 0.1115039433], degree=3))
            add(Edge.make_bspline(
                [(95.1982962827, -229.8290069231), (81.1363705418, -177.2644316068), (83.7310700652, -131.7951005977), (107.7630853314, -107.7630853314)],
                knots=[0.8884960567, 0.8884960567, 0.8884960567, 0.8884960567, 1, 1, 1, 1], degree=3))
            add(Edge.make_bspline(
                [(95.1982962827, -229.8290069231), (110.2672904934, -255.9049909464), (123.2650801049, -287.1261494171), (133.0452771259, -321.1997063526)],
                knots=[0.111503954, 0.111503954, 0.111503954, 0.111503954, 0.1732201137, 0.1732201137, 0.1732201137, 0.1732201137], degree=3))
        make_face()
        with BuildLine():
            add(Edge.make_bspline(
                [(321.1997063526, -133.0452771259), (287.1261494171, -123.2650801049), (255.9049909464, -110.2672904934), (229.8290069231, -95.1982962827)],
                knots=[0.8267798863, 0.8267798863, 0.8267798863, 0.8267798863, 0.888496046, 0.888496046, 0.888496046, 0.888496046], degree=3))
            add(Edge.make_bspline(
                [(229.8290069231, -95.1982962827), (258.9229000588, -102.9814118568), (290.1904186552, -115.8672784), (321.1997063526, -133.0452771259)],
                knots=[0.1115039433, 0.1115039433, 0.1115039433, 0.1115039433, 0.1732201046, 0.1732201046, 0.1732201046, 0.1732201046], degree=3))
        make_face()
        with BuildLine():
            add(Edge.make_bspline(
                [(133.0452771259, -321.1997063526), (115.8672784, -290.1904186552), (102.9814118568, -258.9229000588), (95.1982962827, -229.8290069231)],
                knots=[0.8267798954, 0.8267798954, 0.8267798954, 0.8267798954, 0.8884960567, 0.8884960567, 0.8884960567, 0.8884960567], degree=3))
            add(Edge.make_bspline(
                [(95.1982962827, -229.8290069231), (110.2672904934, -255.9049909464), (123.2650801049, -287.1261494171), (133.0452771259, -321.1997063526)],
                knots=[0.111503954, 0.111503954, 0.111503954, 0.111503954, 0.1732201137, 0.1732201137, 0.1732201137, 0.1732201137], degree=3))
        make_face()
        with BuildLine():
            add(Edge.make_bspline(
                [(133.0452771259, -321.1997063526), (145.2126319758, -363.5899626372), (175.8025093407, -562.7949813186), (0, -914.4), (-175.8024966613, -562.7950066774), (-145.212639764, -363.5900133548), (-133.0452969026, -321.1997752533)],
                knots=[0.1732201137, 0.1732201137, 0.1732201137, 0.1732201137, 0.25, 0.5, 0.75, 0.8267798447, 0.8267798447, 0.8267798447, 0.8267798447], degree=3))
            add(Edge.make_bspline(
                [(133.0452771259, -321.1997063526), (115.8672784, -290.1904186552), (102.9814118568, -258.9229000588), (95.1982962827, -229.8290069231)],
                knots=[0.8267798954, 0.8267798954, 0.8267798954, 0.8267798954, 0.8884960567, 0.8884960567, 0.8884960567, 0.8884960567], degree=3))
            add(Edge.make_bspline(
                [(0, -152.4), (33.9864051801, -152.4), (67.9728103601, -182.7169484794), (95.1982962827, -229.8290069231)],
                knots=[0, 0, 0, 0, 0.111503954, 0.111503954, 0.111503954, 0.111503954], degree=3))
            add(Edge.make_bspline(
                [(-95.1982683318, -229.8289585557), (-67.9727870988, -182.7169277295), (-33.9863935494, -152.4), (0, -152.4)],
                knots=[0.8884960842, 0.8884960842, 0.8884960842, 0.8884960842, 1, 1, 1, 1], degree=3))
            add(Edge.make_bspline(
                [(-95.1982683318, -229.8289585557), (-102.9813877036, -258.9228871735), (-115.8672711036, -290.1904479698), (-133.0452969026, -321.1997752533)],
                knots=[0.6115039136, 0.6115039136, 0.6115039136, 0.6115039136, 0.6732201525, 0.6732201525, 0.6732201525, 0.6732201525], degree=3))
        make_face()
        with BuildLine():
            add(Edge.make_bspline(
                [(-95.1982683318, -229.8289585557), (-102.9813877036, -258.9228871735), (-115.8672711036, -290.1904479698), (-133.0452969026, -321.1997752533)],
                knots=[0.6115039136, 0.6115039136, 0.6115039136, 0.6115039136, 0.6732201525, 0.6732201525, 0.6732201525, 0.6732201525], degree=3))
            add(Edge.make_bspline(
                [(-133.0452969026, -321.1997752533), (-123.26509158, -287.1261704384), (-110.2672845778, -255.9049699154), (-95.1982683318, -229.8289585557)],
                knots=[0.8267798447, 0.8267798447, 0.8267798447, 0.8267798447, 0.8884960842, 0.8884960842, 0.8884960842, 0.8884960842], degree=3))
        make_face()
    extrude(amount=-F6_DEPTH)


solid = Compound([f2.part, f4.part, f6.part])
